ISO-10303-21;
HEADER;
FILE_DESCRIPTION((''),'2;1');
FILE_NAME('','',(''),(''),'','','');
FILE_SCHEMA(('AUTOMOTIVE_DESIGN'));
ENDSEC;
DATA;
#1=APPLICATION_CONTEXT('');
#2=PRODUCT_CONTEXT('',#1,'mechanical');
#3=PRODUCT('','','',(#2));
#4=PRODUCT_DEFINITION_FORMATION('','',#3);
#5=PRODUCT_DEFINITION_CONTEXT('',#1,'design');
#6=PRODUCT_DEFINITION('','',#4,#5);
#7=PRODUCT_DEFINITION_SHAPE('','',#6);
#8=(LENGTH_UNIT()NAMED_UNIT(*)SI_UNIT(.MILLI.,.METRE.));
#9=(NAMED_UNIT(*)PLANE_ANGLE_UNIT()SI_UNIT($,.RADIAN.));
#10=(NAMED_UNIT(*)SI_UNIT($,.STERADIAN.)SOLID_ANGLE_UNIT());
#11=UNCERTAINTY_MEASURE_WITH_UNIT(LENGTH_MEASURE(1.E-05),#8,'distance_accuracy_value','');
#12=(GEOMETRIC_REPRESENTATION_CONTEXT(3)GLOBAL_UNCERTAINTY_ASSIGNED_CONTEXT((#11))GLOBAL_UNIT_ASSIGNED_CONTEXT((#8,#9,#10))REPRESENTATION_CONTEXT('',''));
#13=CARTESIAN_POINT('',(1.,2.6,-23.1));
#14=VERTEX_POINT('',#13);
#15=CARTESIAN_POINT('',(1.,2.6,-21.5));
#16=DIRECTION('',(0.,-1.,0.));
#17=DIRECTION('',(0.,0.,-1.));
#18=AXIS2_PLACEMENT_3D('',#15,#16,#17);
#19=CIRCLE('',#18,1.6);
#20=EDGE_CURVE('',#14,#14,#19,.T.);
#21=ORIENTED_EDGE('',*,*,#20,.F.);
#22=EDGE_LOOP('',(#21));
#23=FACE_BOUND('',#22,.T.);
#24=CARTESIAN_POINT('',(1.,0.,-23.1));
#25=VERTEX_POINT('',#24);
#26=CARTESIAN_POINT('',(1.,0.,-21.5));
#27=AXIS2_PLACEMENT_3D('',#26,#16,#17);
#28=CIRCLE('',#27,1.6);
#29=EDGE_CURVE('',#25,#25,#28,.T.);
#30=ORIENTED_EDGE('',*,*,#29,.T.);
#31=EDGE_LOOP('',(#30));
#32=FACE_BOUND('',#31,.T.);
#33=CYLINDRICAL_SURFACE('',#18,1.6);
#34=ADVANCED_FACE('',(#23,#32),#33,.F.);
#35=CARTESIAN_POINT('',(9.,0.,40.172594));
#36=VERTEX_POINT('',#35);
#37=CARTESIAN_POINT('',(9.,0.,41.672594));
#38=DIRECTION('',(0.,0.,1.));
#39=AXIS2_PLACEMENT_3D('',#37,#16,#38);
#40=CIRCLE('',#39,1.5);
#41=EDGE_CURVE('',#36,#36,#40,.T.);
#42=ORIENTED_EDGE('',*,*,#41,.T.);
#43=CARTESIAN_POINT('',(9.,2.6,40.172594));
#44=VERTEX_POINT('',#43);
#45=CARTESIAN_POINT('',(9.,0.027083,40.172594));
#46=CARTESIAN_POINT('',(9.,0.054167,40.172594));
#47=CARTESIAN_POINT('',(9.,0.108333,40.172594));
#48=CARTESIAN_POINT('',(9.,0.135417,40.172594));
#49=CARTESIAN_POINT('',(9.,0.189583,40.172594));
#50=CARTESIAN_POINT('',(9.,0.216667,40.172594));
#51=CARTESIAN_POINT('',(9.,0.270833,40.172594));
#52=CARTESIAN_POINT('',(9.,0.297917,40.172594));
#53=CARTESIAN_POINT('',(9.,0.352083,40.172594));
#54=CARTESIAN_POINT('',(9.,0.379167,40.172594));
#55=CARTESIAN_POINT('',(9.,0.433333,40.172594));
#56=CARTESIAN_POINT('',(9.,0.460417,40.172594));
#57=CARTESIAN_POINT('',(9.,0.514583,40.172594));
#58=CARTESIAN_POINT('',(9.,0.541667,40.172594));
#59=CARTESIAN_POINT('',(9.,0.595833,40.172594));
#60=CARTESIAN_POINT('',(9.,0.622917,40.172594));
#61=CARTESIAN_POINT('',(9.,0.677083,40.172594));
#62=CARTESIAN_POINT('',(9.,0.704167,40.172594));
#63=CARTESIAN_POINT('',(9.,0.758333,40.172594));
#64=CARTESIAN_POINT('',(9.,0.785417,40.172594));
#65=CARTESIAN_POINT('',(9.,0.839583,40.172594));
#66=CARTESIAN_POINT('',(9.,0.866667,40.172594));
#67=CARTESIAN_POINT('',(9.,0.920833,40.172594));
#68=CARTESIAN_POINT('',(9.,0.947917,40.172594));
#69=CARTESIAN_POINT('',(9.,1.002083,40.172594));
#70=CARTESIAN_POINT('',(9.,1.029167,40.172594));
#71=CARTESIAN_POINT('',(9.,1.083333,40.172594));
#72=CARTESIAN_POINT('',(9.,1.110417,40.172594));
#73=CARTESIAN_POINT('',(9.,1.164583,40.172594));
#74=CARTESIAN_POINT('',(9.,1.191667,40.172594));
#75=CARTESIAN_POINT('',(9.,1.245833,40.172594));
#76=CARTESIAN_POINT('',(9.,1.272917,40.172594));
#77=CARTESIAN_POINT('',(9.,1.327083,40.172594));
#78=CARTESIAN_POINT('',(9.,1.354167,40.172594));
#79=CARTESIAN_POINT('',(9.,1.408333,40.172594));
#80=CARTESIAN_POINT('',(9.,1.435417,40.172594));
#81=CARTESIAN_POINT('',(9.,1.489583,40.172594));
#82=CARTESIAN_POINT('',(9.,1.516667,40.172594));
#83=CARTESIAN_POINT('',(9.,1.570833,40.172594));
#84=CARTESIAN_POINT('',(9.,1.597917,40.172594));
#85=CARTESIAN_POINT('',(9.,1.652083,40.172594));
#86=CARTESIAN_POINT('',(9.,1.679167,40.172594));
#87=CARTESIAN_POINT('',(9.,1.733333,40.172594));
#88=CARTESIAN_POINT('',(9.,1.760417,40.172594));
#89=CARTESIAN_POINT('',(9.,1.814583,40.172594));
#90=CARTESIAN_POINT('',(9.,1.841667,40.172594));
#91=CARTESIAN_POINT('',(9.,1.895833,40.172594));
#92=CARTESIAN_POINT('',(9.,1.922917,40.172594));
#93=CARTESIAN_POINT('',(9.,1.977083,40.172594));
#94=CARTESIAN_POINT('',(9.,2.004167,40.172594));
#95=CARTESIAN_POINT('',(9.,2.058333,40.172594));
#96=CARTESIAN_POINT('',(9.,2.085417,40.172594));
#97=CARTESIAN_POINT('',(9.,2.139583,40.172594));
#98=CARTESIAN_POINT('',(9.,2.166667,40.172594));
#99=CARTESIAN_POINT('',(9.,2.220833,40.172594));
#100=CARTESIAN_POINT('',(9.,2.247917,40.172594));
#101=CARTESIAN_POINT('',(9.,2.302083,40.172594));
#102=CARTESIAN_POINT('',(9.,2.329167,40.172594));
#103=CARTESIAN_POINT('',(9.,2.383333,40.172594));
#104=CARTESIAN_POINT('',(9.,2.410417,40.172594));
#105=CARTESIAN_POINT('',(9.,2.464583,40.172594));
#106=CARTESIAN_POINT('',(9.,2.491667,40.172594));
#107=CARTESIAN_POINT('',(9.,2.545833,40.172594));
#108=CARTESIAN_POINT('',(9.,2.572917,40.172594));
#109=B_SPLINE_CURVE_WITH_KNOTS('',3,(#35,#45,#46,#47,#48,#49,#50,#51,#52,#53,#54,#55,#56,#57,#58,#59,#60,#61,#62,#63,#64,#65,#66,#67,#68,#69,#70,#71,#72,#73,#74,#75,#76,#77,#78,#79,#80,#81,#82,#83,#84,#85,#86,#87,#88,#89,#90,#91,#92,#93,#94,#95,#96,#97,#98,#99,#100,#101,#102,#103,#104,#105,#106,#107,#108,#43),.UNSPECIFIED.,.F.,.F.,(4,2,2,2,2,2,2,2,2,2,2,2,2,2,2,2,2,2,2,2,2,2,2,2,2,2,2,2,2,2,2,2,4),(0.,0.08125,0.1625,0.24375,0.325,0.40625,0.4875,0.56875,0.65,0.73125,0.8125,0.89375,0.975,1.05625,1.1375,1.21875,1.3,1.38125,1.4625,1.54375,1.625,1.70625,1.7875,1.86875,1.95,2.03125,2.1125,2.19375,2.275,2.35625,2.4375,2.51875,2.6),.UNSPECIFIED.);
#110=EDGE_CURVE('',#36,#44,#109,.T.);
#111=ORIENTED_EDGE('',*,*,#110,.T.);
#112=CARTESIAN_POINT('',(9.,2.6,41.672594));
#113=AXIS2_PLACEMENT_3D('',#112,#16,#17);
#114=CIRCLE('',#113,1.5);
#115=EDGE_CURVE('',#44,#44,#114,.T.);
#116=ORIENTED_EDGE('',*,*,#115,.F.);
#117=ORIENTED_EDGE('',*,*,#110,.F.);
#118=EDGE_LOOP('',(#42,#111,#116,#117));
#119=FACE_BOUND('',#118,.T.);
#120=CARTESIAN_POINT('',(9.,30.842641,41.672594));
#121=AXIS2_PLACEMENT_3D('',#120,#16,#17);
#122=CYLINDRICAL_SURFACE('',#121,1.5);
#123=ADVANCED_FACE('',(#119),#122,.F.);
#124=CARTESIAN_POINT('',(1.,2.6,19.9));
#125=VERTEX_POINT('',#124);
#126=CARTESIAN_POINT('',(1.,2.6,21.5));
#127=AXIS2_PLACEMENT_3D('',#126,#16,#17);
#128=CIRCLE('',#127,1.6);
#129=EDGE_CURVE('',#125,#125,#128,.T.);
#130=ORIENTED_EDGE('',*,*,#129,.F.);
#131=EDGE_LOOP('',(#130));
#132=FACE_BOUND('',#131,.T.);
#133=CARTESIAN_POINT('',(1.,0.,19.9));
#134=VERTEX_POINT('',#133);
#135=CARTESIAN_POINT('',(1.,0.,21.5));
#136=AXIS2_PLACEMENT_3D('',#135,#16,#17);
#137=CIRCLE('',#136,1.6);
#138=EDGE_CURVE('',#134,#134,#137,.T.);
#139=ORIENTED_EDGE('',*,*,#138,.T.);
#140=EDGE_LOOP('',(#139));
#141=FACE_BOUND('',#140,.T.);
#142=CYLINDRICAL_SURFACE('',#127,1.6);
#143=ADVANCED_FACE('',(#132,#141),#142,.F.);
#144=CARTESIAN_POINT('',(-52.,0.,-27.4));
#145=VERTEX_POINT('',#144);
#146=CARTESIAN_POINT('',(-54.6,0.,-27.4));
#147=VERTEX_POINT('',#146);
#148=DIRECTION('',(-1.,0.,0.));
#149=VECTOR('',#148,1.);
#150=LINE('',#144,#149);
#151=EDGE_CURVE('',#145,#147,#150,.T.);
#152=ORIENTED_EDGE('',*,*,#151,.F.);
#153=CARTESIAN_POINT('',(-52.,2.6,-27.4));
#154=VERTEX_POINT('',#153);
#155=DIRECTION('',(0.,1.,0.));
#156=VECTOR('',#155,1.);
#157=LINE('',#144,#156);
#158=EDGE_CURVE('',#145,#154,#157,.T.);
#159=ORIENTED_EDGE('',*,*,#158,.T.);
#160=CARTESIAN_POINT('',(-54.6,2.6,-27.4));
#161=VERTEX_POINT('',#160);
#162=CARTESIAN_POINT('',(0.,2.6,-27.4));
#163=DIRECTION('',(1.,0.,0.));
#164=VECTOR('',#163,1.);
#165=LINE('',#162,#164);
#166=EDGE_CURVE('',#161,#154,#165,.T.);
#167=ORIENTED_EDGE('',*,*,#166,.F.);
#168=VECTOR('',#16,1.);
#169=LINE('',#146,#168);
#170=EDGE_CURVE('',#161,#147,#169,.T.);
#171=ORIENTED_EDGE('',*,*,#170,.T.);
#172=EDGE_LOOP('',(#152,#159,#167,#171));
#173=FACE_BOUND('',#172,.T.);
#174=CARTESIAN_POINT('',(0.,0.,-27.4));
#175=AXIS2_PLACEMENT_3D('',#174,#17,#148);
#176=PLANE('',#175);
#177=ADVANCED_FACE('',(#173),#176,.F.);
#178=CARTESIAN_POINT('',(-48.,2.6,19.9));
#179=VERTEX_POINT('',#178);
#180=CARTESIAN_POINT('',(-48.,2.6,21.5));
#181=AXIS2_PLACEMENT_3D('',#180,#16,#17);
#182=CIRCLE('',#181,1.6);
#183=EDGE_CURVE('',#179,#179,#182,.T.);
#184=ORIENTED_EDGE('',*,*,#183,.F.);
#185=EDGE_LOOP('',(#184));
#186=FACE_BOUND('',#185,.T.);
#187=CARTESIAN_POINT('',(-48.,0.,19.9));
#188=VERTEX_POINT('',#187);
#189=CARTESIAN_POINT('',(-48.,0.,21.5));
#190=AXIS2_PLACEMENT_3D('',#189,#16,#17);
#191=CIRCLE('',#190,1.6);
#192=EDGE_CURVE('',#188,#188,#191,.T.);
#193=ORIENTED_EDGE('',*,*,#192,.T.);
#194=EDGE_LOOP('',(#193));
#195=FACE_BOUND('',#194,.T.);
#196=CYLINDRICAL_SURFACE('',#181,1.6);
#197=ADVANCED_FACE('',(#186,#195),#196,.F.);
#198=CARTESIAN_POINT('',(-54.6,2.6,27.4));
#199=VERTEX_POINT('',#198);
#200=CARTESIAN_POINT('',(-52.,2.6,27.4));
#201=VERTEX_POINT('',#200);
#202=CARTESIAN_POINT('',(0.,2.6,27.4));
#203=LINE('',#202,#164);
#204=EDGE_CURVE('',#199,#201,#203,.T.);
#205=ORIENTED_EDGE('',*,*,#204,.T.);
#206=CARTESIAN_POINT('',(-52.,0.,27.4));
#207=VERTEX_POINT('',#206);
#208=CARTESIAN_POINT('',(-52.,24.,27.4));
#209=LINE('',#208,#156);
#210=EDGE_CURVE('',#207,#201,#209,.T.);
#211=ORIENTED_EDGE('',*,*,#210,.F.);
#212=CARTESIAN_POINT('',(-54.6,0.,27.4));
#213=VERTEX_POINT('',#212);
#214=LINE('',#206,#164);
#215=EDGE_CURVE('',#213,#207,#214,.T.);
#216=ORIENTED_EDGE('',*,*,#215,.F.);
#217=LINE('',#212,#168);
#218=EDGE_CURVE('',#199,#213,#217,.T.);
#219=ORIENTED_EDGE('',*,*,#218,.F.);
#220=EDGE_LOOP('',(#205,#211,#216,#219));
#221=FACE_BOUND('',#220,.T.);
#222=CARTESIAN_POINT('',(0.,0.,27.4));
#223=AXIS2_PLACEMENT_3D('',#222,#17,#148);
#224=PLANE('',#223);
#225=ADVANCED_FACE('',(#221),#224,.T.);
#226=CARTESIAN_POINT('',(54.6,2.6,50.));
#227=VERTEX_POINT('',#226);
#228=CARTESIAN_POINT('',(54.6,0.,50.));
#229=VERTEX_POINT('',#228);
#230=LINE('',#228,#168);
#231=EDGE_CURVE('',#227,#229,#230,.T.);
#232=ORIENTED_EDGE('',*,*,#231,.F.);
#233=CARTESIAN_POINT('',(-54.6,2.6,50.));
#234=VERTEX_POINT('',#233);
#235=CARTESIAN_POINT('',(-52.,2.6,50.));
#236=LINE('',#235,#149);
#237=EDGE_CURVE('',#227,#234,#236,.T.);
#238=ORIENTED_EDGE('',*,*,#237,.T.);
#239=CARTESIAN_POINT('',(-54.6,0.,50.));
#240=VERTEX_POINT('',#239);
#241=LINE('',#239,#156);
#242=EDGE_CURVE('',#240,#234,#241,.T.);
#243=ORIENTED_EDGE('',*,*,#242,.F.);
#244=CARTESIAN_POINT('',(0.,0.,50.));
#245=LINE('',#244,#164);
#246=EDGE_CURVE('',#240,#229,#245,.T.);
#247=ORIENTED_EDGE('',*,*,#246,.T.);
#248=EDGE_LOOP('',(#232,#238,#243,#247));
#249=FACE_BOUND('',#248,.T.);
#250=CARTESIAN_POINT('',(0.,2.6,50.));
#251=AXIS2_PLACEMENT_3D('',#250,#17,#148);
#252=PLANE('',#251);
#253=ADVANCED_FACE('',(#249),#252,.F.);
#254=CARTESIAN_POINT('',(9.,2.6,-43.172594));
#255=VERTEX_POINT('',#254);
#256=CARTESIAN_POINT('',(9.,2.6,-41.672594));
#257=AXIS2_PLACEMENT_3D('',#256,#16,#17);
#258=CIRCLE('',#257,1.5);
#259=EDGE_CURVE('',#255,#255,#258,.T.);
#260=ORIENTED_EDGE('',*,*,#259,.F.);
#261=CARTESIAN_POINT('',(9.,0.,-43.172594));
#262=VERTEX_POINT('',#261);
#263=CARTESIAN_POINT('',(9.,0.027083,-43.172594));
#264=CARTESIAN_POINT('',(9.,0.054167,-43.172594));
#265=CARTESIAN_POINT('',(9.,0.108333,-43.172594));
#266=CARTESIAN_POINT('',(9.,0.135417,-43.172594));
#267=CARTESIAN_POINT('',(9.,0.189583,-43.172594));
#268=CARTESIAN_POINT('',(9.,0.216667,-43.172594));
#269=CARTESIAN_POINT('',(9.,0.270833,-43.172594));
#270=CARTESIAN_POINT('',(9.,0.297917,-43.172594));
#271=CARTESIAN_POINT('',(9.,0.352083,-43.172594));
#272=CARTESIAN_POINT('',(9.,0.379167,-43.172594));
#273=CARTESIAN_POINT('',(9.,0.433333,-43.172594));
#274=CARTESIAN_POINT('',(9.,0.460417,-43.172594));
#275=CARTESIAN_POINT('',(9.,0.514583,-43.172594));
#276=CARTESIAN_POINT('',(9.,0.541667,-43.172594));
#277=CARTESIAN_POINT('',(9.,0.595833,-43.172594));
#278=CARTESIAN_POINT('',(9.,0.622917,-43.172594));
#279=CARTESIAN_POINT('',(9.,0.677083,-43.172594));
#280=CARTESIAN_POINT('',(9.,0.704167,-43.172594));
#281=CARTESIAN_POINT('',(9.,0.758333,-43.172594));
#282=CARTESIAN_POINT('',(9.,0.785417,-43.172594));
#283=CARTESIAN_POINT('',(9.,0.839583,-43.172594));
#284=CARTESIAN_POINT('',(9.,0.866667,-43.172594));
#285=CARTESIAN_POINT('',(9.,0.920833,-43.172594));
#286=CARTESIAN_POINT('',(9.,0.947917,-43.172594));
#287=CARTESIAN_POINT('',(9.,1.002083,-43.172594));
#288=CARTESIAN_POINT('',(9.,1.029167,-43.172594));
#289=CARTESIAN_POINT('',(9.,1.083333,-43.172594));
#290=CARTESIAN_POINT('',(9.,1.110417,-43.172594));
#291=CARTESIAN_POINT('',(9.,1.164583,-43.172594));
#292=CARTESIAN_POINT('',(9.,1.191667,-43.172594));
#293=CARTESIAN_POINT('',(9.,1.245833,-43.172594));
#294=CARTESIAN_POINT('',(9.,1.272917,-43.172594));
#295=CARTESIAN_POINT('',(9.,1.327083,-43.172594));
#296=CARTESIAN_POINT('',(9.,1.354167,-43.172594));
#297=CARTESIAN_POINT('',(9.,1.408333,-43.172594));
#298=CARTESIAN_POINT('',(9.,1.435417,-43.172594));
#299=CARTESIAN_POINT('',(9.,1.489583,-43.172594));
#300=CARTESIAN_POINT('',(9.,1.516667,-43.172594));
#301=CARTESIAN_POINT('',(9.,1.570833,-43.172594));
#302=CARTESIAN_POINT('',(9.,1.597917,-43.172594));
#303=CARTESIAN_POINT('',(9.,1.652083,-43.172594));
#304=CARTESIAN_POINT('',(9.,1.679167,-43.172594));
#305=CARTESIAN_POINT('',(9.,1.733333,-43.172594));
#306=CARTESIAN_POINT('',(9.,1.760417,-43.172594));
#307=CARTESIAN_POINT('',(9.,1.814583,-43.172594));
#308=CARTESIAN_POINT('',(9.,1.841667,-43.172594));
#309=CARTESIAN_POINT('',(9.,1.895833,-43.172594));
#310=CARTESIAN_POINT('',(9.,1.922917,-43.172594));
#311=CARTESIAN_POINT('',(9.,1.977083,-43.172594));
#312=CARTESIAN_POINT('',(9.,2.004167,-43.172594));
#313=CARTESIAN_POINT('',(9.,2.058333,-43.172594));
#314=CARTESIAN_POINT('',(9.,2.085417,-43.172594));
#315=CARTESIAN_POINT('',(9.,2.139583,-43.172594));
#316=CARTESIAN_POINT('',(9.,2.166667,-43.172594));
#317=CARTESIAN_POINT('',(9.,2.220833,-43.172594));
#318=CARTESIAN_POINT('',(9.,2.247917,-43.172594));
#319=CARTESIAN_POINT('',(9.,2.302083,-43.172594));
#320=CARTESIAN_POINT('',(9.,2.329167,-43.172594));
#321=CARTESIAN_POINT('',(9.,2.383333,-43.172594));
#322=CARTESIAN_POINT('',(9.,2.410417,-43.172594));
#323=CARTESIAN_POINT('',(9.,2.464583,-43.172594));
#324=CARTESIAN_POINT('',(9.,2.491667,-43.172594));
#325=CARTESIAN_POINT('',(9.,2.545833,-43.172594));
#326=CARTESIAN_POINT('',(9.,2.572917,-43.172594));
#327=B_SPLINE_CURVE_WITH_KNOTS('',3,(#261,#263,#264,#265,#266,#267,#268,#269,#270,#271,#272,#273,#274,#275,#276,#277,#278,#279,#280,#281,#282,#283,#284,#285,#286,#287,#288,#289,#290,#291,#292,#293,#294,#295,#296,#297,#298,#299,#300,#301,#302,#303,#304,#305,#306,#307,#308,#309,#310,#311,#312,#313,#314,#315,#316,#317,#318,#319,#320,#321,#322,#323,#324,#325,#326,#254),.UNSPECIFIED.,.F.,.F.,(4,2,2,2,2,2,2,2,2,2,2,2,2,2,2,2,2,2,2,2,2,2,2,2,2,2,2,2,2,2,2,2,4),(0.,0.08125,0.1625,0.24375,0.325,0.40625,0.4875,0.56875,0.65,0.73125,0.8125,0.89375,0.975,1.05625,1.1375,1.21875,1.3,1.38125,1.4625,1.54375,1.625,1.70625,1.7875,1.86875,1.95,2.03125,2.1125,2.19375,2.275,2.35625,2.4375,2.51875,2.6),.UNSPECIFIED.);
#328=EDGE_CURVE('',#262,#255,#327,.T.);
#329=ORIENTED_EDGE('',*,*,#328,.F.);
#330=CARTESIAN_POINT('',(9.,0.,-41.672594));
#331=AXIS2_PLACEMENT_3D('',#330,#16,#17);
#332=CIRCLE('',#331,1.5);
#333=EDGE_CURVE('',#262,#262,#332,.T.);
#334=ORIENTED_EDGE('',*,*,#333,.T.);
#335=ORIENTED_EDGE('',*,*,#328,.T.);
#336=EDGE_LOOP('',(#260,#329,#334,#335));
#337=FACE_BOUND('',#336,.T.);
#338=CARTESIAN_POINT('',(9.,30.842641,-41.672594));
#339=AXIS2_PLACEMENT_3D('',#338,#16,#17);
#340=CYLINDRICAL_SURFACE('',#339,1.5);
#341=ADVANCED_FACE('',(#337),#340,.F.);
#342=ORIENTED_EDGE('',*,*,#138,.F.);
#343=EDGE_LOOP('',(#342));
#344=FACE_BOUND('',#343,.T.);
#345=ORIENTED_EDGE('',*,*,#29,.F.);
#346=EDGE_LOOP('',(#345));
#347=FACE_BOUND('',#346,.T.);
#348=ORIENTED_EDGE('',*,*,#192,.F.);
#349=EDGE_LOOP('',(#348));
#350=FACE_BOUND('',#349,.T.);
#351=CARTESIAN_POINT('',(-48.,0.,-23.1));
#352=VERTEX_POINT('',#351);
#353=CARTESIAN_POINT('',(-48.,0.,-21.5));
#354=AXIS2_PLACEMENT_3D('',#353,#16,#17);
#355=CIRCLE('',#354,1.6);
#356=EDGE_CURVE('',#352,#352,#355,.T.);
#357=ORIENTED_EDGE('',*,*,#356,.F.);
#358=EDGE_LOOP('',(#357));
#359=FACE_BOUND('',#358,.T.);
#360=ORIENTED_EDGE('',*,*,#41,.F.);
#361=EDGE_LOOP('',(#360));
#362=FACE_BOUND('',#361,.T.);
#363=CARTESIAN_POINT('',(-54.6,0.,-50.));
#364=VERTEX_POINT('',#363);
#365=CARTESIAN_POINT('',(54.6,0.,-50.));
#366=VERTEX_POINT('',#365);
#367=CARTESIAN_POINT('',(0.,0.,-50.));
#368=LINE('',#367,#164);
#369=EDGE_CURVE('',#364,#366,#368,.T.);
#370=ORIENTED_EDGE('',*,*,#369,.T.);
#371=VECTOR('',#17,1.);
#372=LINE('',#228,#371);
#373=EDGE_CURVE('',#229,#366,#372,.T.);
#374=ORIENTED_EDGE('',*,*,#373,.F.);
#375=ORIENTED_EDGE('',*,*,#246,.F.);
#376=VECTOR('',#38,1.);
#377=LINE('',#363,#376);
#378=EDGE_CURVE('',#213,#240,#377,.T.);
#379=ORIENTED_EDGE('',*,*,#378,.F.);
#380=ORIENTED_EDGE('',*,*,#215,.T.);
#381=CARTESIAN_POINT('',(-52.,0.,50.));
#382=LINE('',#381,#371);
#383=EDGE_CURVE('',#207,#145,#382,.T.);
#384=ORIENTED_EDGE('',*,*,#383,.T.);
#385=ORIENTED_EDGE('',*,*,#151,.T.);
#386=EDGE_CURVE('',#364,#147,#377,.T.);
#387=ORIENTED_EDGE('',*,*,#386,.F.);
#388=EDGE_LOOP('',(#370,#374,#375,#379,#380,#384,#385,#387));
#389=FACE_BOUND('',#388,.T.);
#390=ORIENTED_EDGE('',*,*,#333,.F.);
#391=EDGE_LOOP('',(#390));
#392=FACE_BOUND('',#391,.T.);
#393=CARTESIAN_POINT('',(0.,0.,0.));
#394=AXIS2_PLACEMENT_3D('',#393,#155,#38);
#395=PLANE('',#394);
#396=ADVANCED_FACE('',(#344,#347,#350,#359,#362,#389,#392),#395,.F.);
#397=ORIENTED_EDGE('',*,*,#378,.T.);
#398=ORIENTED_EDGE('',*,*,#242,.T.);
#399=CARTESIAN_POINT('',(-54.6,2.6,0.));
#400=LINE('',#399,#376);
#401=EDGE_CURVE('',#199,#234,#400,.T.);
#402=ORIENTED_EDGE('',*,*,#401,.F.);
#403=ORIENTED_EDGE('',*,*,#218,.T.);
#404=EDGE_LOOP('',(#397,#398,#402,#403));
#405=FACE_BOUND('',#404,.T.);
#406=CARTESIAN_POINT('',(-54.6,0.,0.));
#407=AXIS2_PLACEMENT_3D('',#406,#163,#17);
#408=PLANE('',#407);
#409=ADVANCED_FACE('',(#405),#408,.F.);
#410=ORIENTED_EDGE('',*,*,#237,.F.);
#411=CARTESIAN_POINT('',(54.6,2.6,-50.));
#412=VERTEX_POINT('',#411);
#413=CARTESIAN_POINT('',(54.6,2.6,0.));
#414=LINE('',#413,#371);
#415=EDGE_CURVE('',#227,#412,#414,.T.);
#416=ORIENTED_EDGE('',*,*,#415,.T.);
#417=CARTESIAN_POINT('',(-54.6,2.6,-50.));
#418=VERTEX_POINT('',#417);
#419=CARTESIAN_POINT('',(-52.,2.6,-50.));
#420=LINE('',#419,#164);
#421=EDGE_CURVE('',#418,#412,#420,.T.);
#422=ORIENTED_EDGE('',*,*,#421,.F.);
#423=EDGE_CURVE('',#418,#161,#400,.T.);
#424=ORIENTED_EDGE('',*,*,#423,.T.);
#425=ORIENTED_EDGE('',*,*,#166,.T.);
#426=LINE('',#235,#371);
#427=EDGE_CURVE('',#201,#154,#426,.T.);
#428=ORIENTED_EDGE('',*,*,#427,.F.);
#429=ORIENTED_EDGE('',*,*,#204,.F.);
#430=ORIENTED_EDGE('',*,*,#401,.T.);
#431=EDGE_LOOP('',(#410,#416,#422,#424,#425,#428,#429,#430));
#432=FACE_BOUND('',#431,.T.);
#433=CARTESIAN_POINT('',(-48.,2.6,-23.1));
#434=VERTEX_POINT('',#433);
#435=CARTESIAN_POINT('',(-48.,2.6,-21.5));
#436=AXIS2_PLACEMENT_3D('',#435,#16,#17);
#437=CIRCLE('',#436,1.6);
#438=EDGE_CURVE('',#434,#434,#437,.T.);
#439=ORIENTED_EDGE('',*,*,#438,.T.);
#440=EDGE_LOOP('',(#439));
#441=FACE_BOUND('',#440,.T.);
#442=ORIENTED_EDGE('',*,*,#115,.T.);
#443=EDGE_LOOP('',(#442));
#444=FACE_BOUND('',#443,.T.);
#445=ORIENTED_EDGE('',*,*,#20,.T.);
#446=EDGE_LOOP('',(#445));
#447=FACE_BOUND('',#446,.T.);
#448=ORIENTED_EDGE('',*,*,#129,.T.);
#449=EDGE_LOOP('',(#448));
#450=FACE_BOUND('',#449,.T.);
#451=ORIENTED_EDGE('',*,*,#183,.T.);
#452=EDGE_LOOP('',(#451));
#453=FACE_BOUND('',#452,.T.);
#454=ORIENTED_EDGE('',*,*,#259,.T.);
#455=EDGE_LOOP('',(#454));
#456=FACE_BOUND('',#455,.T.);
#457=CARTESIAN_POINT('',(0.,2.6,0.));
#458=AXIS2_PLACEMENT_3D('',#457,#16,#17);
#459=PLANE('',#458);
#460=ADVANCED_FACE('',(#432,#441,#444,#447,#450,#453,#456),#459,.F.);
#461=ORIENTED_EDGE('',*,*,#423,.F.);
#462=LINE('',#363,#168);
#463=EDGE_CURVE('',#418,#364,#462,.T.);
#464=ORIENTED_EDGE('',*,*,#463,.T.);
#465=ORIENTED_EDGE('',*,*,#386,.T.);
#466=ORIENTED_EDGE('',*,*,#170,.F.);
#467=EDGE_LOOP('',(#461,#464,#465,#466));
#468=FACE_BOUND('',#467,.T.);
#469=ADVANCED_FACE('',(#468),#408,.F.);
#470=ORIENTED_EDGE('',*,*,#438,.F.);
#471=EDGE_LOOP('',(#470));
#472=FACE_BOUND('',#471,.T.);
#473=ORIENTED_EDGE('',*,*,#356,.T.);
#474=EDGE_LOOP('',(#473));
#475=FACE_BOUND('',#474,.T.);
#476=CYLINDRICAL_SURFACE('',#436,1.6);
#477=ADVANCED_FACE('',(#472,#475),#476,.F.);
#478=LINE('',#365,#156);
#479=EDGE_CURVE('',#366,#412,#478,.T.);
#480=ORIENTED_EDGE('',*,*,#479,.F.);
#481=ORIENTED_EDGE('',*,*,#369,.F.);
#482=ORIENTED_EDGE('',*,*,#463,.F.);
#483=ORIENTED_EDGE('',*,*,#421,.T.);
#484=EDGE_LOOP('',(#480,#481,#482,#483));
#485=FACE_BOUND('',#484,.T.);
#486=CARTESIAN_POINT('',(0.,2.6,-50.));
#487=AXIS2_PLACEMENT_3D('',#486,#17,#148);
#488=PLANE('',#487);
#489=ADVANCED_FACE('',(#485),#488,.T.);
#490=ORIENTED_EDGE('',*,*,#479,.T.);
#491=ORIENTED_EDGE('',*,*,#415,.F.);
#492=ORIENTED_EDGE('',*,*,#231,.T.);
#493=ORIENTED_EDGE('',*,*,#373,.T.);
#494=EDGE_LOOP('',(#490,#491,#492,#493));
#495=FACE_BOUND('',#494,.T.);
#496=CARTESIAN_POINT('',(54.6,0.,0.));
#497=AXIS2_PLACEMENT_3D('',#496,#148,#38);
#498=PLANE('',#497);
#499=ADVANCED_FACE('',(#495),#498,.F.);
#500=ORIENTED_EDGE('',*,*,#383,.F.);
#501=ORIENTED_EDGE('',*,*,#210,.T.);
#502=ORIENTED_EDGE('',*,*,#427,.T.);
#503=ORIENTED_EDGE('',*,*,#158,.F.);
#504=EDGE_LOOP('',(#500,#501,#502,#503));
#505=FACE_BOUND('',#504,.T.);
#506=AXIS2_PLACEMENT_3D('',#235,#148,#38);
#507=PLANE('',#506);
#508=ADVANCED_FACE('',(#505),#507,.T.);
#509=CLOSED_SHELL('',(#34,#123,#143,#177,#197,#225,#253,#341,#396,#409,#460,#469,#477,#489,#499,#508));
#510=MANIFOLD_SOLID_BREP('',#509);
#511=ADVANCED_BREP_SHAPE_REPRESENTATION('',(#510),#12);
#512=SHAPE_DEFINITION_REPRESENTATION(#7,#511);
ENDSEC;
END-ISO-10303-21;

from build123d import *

# Parameters (mm, degrees)
EXTRUDE_1_DEPTH                  = 2.6
SKETCH_2_W                       = 100
SKETCH_2_H                       = 24
EXTRUDE_2_DEPTH                  = 2.6
SKETCH_4_W                       = 100
SKETCH_4_H                       = 24
EXTRUDE_3_DEPTH                  = 2.6
SKETCH_5_W                       = 62
SKETCH_5_H                       = 100
EXTRUDE_5_DEPTH                  = 2.6
SKETCH_7_W                       = 62
SKETCH_7_H                       = 100
EXTRUDE_6_DEPTH                  = 2.6
SKETCH_8_W                       = 59.4
SKETCH_8_H                       = 60
CUT_EXTRUDE_1_DEPTH              = 2.6
SKETCH_9_W                       = 59.4
SKETCH_9_H                       = 60
CUT_EXTRUDE_2_DEPTH              = 2.6
SKETCH_11_W                      = 59.4
SKETCH_11_H                      = 26.6
EXTRUDE_7_DEPTH                  = 2.6
SKETCH_12_W                      = 59.4
SKETCH_12_H                      = 26.6
EXTRUDE_8_DEPTH                  = 2.6
SKETCH_14_W                      = 59.4
SKETCH_14_H                      = 26.6
EXTRUDE_9_DEPTH                  = 2.6
SKETCH_15_W                      = 59.4
SKETCH_15_H                      = 26.6
EXTRUDE_10_DEPTH                 = 2.6
SKETCH_16_R                      = 1.6
CUT_EXTRUDE_3_DEPTH              = 127.775391934
SKETCH_17_W                      = 80
SKETCH_17_H                      = 64
CUT_EXTRUDE_4_DEPTH              = 127.775391934
SKETCH_21_W                      = 59.4
SKETCH_21_H                      = 54.8
EXTRUDE_11_DEPTH                 = 2.6
SKETCH_22_R                      = 1.6
CUT_EXTRUDE_5_DEPTH              = 2.6
SKETCH_23_W                      = 59.4
SKETCH_23_H                      = 54.8
EXTRUDE_13_DEPTH                 = 2.6
CUT_EXTRUDE_8_DEPTH              = 2.6
SKETCH_25_W                      = 54.8
SKETCH_25_H                      = 21.4
CUT_EXTRUDE_9_DEPTH              = 2.6
CUT_EXTRUDE_11_REACH             = 143.787
SKETCH_28_R                      = 1.5
CUT_EXTRUDE_11_DIRECTION_2_DEPTH = 142.787023384
SKETCH_31_W                      = 41.995824489
SKETCH_31_H                      = 54.8
CUT_EXTRUDE_14_DEPTH             = 2.6
SKETCH_32_W                      = 59.4
SKETCH_32_H                      = 24
CUT_EXTRUDE_15_DEPTH             = 70.6
SKETCH_33_W                      = 104
SKETCH_33_H                      = 100
CUT_EXTRUDE_16_DEPTH             = 2.6
SKETCH_34_W                      = 104
SKETCH_34_H                      = 99.672593916
EXTRUDE_14_DEPTH                 = 2.6
SKETCH_35_R                      = 1.6
CUT_EXTRUDE_24_DEPTH             = 2.6
SKETCH_36_W                      = 59.4
SKETCH_36_H                      = 100
CUT_EXTRUDE_25_DEPTH             = 2.6
SKETCH_37_W                      = 36
SKETCH_37_H                      = 2.6
EXTRUDE_17_DEPTH                 = 36
SKETCH_41_W                      = 36
SKETCH_41_H                      = 12
CUT_EXTRUDE_27_DEPTH             = 2.6
SKETCH_42_R                      = 1.6
CUT_EXTRUDE_28_DEPTH             = 2.6
SKETCH_43_R                      = 2
CUT_EXTRUDE_29_DEPTH             = 2.6
SKETCH_44_W                      = 104
SKETCH_44_H                      = 99.672593916
EXTRUDE_18_DEPTH                 = 2.6
SKETCH_45_R                      = 1.6
CUT_EXTRUDE_30_DEPTH             = 2.6
SKETCH_46_W                      = 80
SKETCH_46_H                      = 64
CUT_EXTRUDE_31_DEPTH             = 2.6
SKETCH_47_W                      = 40
SKETCH_47_H                      = 30
CUT_EXTRUDE_32_DEPTH             = 2.6
SKETCH_48_W                      = 12
SKETCH_48_H                      = 64
CUT_EXTRUDE_33_DEPTH             = 2.6
SKETCH_49_W                      = 40
SKETCH_49_H                      = 20
CUT_EXTRUDE_34_DEPTH             = 2.6
SKETCH_50_W                      = 39.937786469
SKETCH_50_H                      = 20
CUT_EXTRUDE_35_DEPTH             = 2.6
SKETCH_51_R                      = 9
CUT_EXTRUDE_36_DEPTH             = 2.6
CUT_EXTRUDE_38_REACH             = 143.787
SKETCH_52_W                      = 15
SKETCH_52_H                      = 15
SKETCH_55_W                      = 36
SKETCH_55_H                      = 2.6
CUT_EXTRUDE_39_DEPTH             = 12
CUT_EXTRUDE_START                = -109.2
SKETCH_56_W                      = 10
SKETCH_56_H                      = 10
CUT_EXTRUDE_40_DEPTH             = 109.2
CUT_EXTRUDE_41_REACH             = 129.293
SKETCH_57_R                      = 1.5
SKETCH_58_W                      = 104
SKETCH_58_H                      = 2.6
EXTRUDE_19_DEPTH                 = 0.327406084
SKETCH_59_W                      = 59.4
SKETCH_59_H                      = 24
CUT_EXTRUDE_42_DEPTH             = 60
SKETCH_60_W                      = 168.6
SKETCH_60_H                      = 100
CUT_EXTRUDE_43_DEPTH             = 2.6
CUT_EXTRUDE_44_DEPTH             = 200
CUT_EXTRUDE_44_DEPTH_BACK        = 200
SKETCH_61_W                      = 100
SKETCH_61_H                      = 21.4
SKETCH_62_W                      = 20
SKETCH_62_H                      = 2.6
EXTRUDE_20_DEPTH                 = 39.937786469
SKETCH_63_W                      = 40
SKETCH_63_H                      = 2.6
EXTRUDE_21_DEPTH                 = 50
SKETCH_64_R                      = 1.6
CUT_EXTRUDE_45_DEPTH             = 2.6
SKETCH_65_R                      = 1.6
EXTRUDE_23_DEPTH                 = 2.6


with BuildPart() as part:
    # 草图1 → 凸台-拉伸1 (new body)
    with BuildSketch(Plane(origin=(0, 0, 0), x_dir=(1, 0, 0), z_dir=(0, 1, 0))):
        Polygon((52, 50), (0, 50), (-52, 50), (-52, -50), (52, -50), align=None)
    extrude(amount=EXTRUDE_1_DEPTH)

    # 草图2 → 凸台-拉伸2 (add)
    with BuildSketch(Plane.ZY.offset(52)):
        with Locations((0, 12)):
            Rectangle(SKETCH_2_W, SKETCH_2_H)
    extrude(amount=EXTRUDE_2_DEPTH)

    # 草图4 → 凸台-拉伸3 (add)
    with BuildSketch(Plane(origin=(52, 0, 0), x_dir=(0, 0, -1), z_dir=(1, 0, 0))):
        with Locations((0, 12)):
            Rectangle(SKETCH_4_W, SKETCH_4_H)
    extrude(amount=EXTRUDE_3_DEPTH)

    # 草图5 → 凸台-拉伸5 (add)
    with BuildSketch(Plane(origin=(0, 24, 0), x_dir=(1, 0, 0), z_dir=(0, 1, 0))):
        with Locations((-83, 0)):
            Rectangle(SKETCH_5_W, SKETCH_5_H)
    extrude(amount=EXTRUDE_5_DEPTH)

    # 草图7 → 凸台-拉伸6 (add)
    with BuildSketch(Plane(origin=(0, 24, 0), x_dir=(1, 0, 0), z_dir=(0, 1, 0))):
        with Locations((83, 0)):
            Rectangle(SKETCH_7_W, SKETCH_7_H)
    extrude(amount=EXTRUDE_6_DEPTH)

    # 草图8 → 切除-拉伸1 (cut)
    with BuildSketch(Plane(origin=(0, 24, 0), x_dir=(1, 0, 0), z_dir=(0, 1, 0))):
        with Locations((-84.3, 0)):
            Rectangle(SKETCH_8_W, SKETCH_8_H)
    extrude(amount=CUT_EXTRUDE_1_DEPTH, mode=Mode.SUBTRACT)

    # 草图9 → 切除-拉伸2 (cut)
    with BuildSketch(Plane.XZ.offset(-24)):
        with Locations((84.3, 0)):
            Rectangle(SKETCH_9_W, SKETCH_9_H)
    extrude(amount=-CUT_EXTRUDE_2_DEPTH, mode=Mode.SUBTRACT)

    # 草图11 → 凸台-拉伸7 (add)
    with BuildSketch(Plane(origin=(0, 0, 30), x_dir=(-1, 0, 0), z_dir=(0, 0, -1))):
        with Locations((-84.3, 13.3)):
            Rectangle(SKETCH_11_W, SKETCH_11_H)
    extrude(amount=EXTRUDE_7_DEPTH)

    # 草图12 → 凸台-拉伸8 (add)
    with BuildSketch(Plane.XY.offset(-30)):
        with Locations((84.3, 13.3)):
            Rectangle(SKETCH_12_W, SKETCH_12_H)
    extrude(amount=EXTRUDE_8_DEPTH)

    # 草图14 → 凸台-拉伸9 (add)
    with BuildSketch(Plane.XY.offset(-30)):
        with Locations((-84.3, 13.3)):
            Rectangle(SKETCH_14_W, SKETCH_14_H)
    extrude(amount=EXTRUDE_9_DEPTH)

    # 草图15 → 凸台-拉伸10 (add)
    with BuildSketch(Plane(origin=(0, 0, 30), x_dir=(-1, 0, 0), z_dir=(0, 0, -1))):
        with Locations((84.3, 13.3)):
            Rectangle(SKETCH_15_W, SKETCH_15_H)
    extrude(amount=EXTRUDE_10_DEPTH)

    # 草图16 → 切除-拉伸3 (cut, through all)
    with BuildSketch(Plane(origin=(0, 2.6, 0), x_dir=(1, 0, 0), z_dir=(0, 1, 0))):
        with Locations(Location((-47.5, 37.465, 0), (0, 0, 270))):
            Circle(SKETCH_16_R)
        with Locations(Location((47.5, 37.465, 0), (0, 0, 90))):
            Circle(SKETCH_16_R)
        with Locations(Location((-47.5, -37.465, 0), (0, 0, 90))):
            Circle(SKETCH_16_R)
        with Locations(Location((47.5, -37.465, 0), (0, 0, 270))):
            Circle(SKETCH_16_R)
    extrude(amount=-CUT_EXTRUDE_3_DEPTH, mode=Mode.SUBTRACT)

    # 草图17 → 切除-拉伸4 (cut, through all)
    with BuildSketch(Plane(origin=(0, 2.6, 0), x_dir=(1, 0, 0), z_dir=(0, 1, 0))):
        Rectangle(SKETCH_17_W, SKETCH_17_H)
    extrude(amount=-CUT_EXTRUDE_4_DEPTH, mode=Mode.SUBTRACT)

    # 草图21 → 凸台-拉伸11 (add)
    with BuildSketch(Plane.XZ):
        with Locations((-84.3, 0)):
            Rectangle(SKETCH_21_W, SKETCH_21_H)
    extrude(amount=-EXTRUDE_11_DEPTH)

    # 草图22 → 切除-拉伸5 (cut)
    with BuildSketch(Plane(origin=(0, 2.6, 0), x_dir=(1, 0, 0), z_dir=(0, 1, 0))):
        with Locations(Location((-109, 18, 0), (0, 0, 270))):
            Circle(SKETCH_22_R)
        with Locations(Location((-109, 0, 0), (0, 0, 270))):
            Circle(SKETCH_22_R)
        with Locations(Location((-109, -18, 0), (0, 0, 90))):
            Circle(SKETCH_22_R)
    extrude(amount=-CUT_EXTRUDE_5_DEPTH, mode=Mode.SUBTRACT)

    # 草图23 → 凸台-拉伸13 (add)
    with BuildSketch(Plane(origin=(0, 26.6, 0), x_dir=(1, 0, 0), z_dir=(0, 1, 0))):
        with Locations((-84.3, 0)):
            Rectangle(SKETCH_23_W, SKETCH_23_H)
    extrude(amount=-EXTRUDE_13_DEPTH)

    # 草图24 → 切除-拉伸8 (cut)
    with BuildSketch(Plane(origin=(0, 26.6, 0), x_dir=(1, 0, 0), z_dir=(0, 1, 0))):
        Polygon((-114, 27.4), (-104, 27.4), (-104, 0.9702404), (-94.7, 0.9702404), (-94.7, 6.15), (-72, 6.15), (-72, 0.9702404), (-62.7, 0.9702404), (-62.7, -1.0297596), (-72, -1.0297596), (-72, -6.15), (-94.7, -6.15), (-94.7, -1.0297596), (-104, -1.0297596), (-104, -27.4), (-114, -27.4), align=None)
    extrude(amount=-CUT_EXTRUDE_8_DEPTH, mode=Mode.SUBTRACT)

    # 草图25 → 切除-拉伸9 (cut)
    with BuildSketch(Plane.ZY.offset(54.6)):
        with Locations((0, 13.3)):
            Rectangle(SKETCH_25_W, SKETCH_25_H)
    extrude(amount=-CUT_EXTRUDE_9_DEPTH, mode=Mode.SUBTRACT)

    # 切除-拉伸11: up to this face of the body (flat: up to its plane)
    cut_extrude_11_end = Plane(part.part.faces().sort_by_distance((-84.3, 12, -30))[0])
    # 草图28 → 切除-拉伸11 (cut, up to the picked face)
    with BuildSketch(Plane.XY.offset(30), mode=Mode.PRIVATE) as cut_extrude_11_sk1:
        with Locations(Location((-87.2, 20.75, 0), (0, 0, 180))):
            Circle(SKETCH_28_R)
    cut_extrude_11_tool1 = split(extrude(cut_extrude_11_sk1.sketch, amount=-CUT_EXTRUDE_11_REACH, mode=Mode.PRIVATE), bisect_by=cut_extrude_11_end, keep=Keep.BOTH, mode=Mode.PRIVATE)
    # 草图28 → 切除-拉伸11 (cut, up to the picked face)
    with BuildSketch(Plane.XY.offset(30), mode=Mode.PRIVATE) as cut_extrude_11_sk2:
        with Locations(Location((-87.2, 3.25, 0), (0, 0, 180))):
            Circle(SKETCH_28_R)
    cut_extrude_11_tool2 = split(extrude(cut_extrude_11_sk2.sketch, amount=-CUT_EXTRUDE_11_REACH, mode=Mode.PRIVATE), bisect_by=cut_extrude_11_end, keep=Keep.BOTH, mode=Mode.PRIVATE)
    add(cut_extrude_11_tool1.solids().sort_by(Axis((-87.2, 20.75, 30), (0, 0, -1)))[0], mode=Mode.SUBTRACT)
    add(cut_extrude_11_tool2.solids().sort_by(Axis((-87.2, 3.25, 30), (0, 0, -1)))[0], mode=Mode.SUBTRACT)

    # 草图28 → 切除-拉伸11 direction 2 (cut)
    with BuildSketch(Plane.XY.offset(30)):
        with Locations(Location((-87.2, 20.75, 0), (0, 0, 180))):
            Circle(SKETCH_28_R)
        with Locations(Location((-87.2, 3.25, 0), (0, 0, 180))):
            Circle(SKETCH_28_R)
    extrude(amount=CUT_EXTRUDE_11_DIRECTION_2_DEPTH, mode=Mode.SUBTRACT)

    # 草图31 → 切除-拉伸14 (cut)
    with BuildSketch(Plane(origin=(0, 2.6, 0), x_dir=(1, 0, 0), z_dir=(0, 1, 0))):
        with Locations((-72.997912245, 0)):
            Rectangle(SKETCH_31_W, SKETCH_31_H)
    extrude(amount=-CUT_EXTRUDE_14_DEPTH, mode=Mode.SUBTRACT)

    # 草图32 → 切除-拉伸15 (cut)
    with BuildSketch(Plane.XY.offset(30)):
        with Locations((84.3, 12)):
            Rectangle(SKETCH_32_W, SKETCH_32_H)
    extrude(amount=-CUT_EXTRUDE_15_DEPTH, mode=Mode.SUBTRACT)

    # 草图33 → 切除-拉伸16 (cut)
    with BuildSketch(Plane(origin=(0, 2.6, 0), x_dir=(1, 0, 0), z_dir=(0, 1, 0))):
        Rectangle(SKETCH_33_W, SKETCH_33_H)
    extrude(amount=-CUT_EXTRUDE_16_DEPTH, mode=Mode.SUBTRACT)


with BuildPart() as cut_extrude_16_piece_1:
    # of the separate pieces the step leaves, piece 1, a body of its own (cut_extrude_16_pieces)
    add(part.part.solids().sort_by_distance((-52, 0, -50))[0])



with BuildPart() as cut_extrude_16_piece_2:
    # of the separate pieces the step leaves, piece 2, a body of its own (cut_extrude_16_pieces)
    add(part.part.solids().sort_by_distance((114, 26.6, -50))[0])


with BuildPart() as cut_extrude_16_piece_1_1:
    add(cut_extrude_16_piece_1.part)

    add(cut_extrude_16_piece_2.part)  # 凸台-拉伸14 merges 切除-拉伸16 piece 2
    # 草图34 → 凸台-拉伸14 (add)
    with BuildSketch(Plane.XZ):
        with Locations((0, 0.163703042)):
            Rectangle(SKETCH_34_W, SKETCH_34_H)
    extrude(amount=-EXTRUDE_14_DEPTH)

    # 草图35 → 切除-拉伸24 (cut)
    with BuildSketch(Plane(origin=(0, 2.6, 0), x_dir=(1, 0, 0), z_dir=(0, 1, 0))):
        with Locations(Location((-39.5, 21.5, 0), (0, 0, 270))):
            Circle(SKETCH_35_R)
        with Locations(Location((9.5, 21.5, 0), (0, 0, 270))):
            Circle(SKETCH_35_R)
        with Locations(Location((9.5, -21.5, 0), (0, 0, 90))):
            Circle(SKETCH_35_R)
        with Locations(Location((-39.5, -21.5, 0), (0, 0, 90))):
            Circle(SKETCH_35_R)
    extrude(amount=-CUT_EXTRUDE_24_DEPTH, mode=Mode.SUBTRACT)

    # 草图36 → 切除-拉伸25 (cut)
    with BuildSketch(Plane(origin=(0, 26.6, 0), x_dir=(1, 0, 0), z_dir=(0, 1, 0))):
        with Locations((84.3, 0)):
            Rectangle(SKETCH_36_W, SKETCH_36_H)
    extrude(amount=-CUT_EXTRUDE_25_DEPTH, mode=Mode.SUBTRACT)

    # 草图37 → 凸台-拉伸17 (add)
    with BuildSketch(Plane(origin=(54.6, 0, 0), x_dir=(0, 0, -1), z_dir=(1, 0, 0))):
        with Locations((0, 13.3)):
            Rectangle(SKETCH_37_W, SKETCH_37_H)
    extrude(amount=EXTRUDE_17_DEPTH)

    # 草图41 → 切除-拉伸27 (cut)
    with BuildSketch(Plane(origin=(54.6, 0, 0), x_dir=(0, 0, -1), z_dir=(1, 0, 0))):
        with Locations((0, 20.6)):
            Rectangle(SKETCH_41_W, SKETCH_41_H)
    extrude(amount=-CUT_EXTRUDE_27_DEPTH, mode=Mode.SUBTRACT)

    # 草图42 → 切除-拉伸28 (cut)
    with BuildSketch(Plane(origin=(0, 14.6, 0), x_dir=(1, 0, 0), z_dir=(0, 1, 0))):
        with Locations(Location((88.1, 15.5, 0), (0, 0, 270))):
            Circle(SKETCH_42_R)
        with Locations(Location((88.1, -15.5, 0), (0, 0, 90))):
            Circle(SKETCH_42_R)
        with Locations(Location((57.1, 15.5, 0), (0, 0, 270))):
            Circle(SKETCH_42_R)
        with Locations(Location((57.1, -15.5, 0), (0, 0, 90))):
            Circle(SKETCH_42_R)
    extrude(amount=-CUT_EXTRUDE_28_DEPTH, mode=Mode.SUBTRACT)

    # 草图43 → 切除-拉伸29 (cut)
    with BuildSketch(Plane(origin=(0, 14.6, 0), x_dir=(1, 0, 0), z_dir=(0, 1, 0))):
        with Locations(Location((61.1, 14.5, 0), (0, 0, 270))):
            Circle(SKETCH_43_R)
        with Locations(Location((84.1, 14.5, 0), (0, 0, 270))):
            Circle(SKETCH_43_R)
        with Locations(Location((84.1, -14.5, 0), (0, 0, 90))):
            Circle(SKETCH_43_R)
        with Locations(Location((61.1, -14.5, 0), (0, 0, 90))):
            Circle(SKETCH_43_R)
    extrude(amount=-CUT_EXTRUDE_29_DEPTH, mode=Mode.SUBTRACT)

    # 草图44 → 凸台-拉伸18 (add)
    with BuildSketch(Plane(origin=(0, 26.6, 0), x_dir=(1, 0, 0), z_dir=(0, 1, 0))):
        with Locations((0, -0.163703042)):
            Rectangle(SKETCH_44_W, SKETCH_44_H)
    extrude(amount=-EXTRUDE_18_DEPTH)

    # 草图45 → 切除-拉伸30 (cut)
    with BuildSketch(Plane(origin=(0, 26.6, 0), x_dir=(1, 0, 0), z_dir=(0, 1, 0))):
        with Locations(Location((-47.5, -37.465, 0), (0, 0, 270))):
            Circle(SKETCH_45_R)
        with Locations(Location((-47.5, 37.465, 0), (0, 0, 90))):
            Circle(SKETCH_45_R)
        with Locations(Location((47.5, -37.465, 0), (0, 0, 90))):
            Circle(SKETCH_45_R)
        with Locations(Location((47.5, 37.465, 0), (0, 0, 270))):
            Circle(SKETCH_45_R)
    extrude(amount=-CUT_EXTRUDE_30_DEPTH, mode=Mode.SUBTRACT)

    # 草图46 → 切除-拉伸31 (cut)
    with BuildSketch(Plane(origin=(0, 26.6, 0), x_dir=(1, 0, 0), z_dir=(0, 1, 0))):
        Rectangle(SKETCH_46_W, SKETCH_46_H)
    extrude(amount=-CUT_EXTRUDE_31_DEPTH, mode=Mode.SUBTRACT)

    # 草图47 → 切除-拉伸32 (cut)
    with BuildSketch(Plane(origin=(0, 2.6, 0), x_dir=(1, 0, 0), z_dir=(0, 1, 0))):
        with Locations((-15, 0)):
            Rectangle(SKETCH_47_W, SKETCH_47_H)
    extrude(amount=-CUT_EXTRUDE_32_DEPTH, mode=Mode.SUBTRACT)

    # 草图48 → 切除-拉伸33 (cut)
    with BuildSketch(Plane(origin=(0, 26.6, 0), x_dir=(1, 0, 0), z_dir=(0, 1, 0))):
        with Locations((-46, 0)):
            Rectangle(SKETCH_48_W, SKETCH_48_H)
    extrude(amount=-CUT_EXTRUDE_33_DEPTH, mode=Mode.SUBTRACT)

    # 草图49 → 切除-拉伸34 (cut)
    with BuildSketch(Plane(origin=(0, 2.6, 0), x_dir=(1, 0, 0), z_dir=(0, 1, 0))):
        with Locations((-15, -25)):
            Rectangle(SKETCH_49_W, SKETCH_49_H)
    extrude(amount=-CUT_EXTRUDE_34_DEPTH, mode=Mode.SUBTRACT)

    # 草图50 → 切除-拉伸35 (cut)
    with BuildSketch(Plane(origin=(0, 2.6, 0), x_dir=(1, 0, 0), z_dir=(0, 1, 0))):
        with Locations((-15.031106765, 25)):
            Rectangle(SKETCH_50_W, SKETCH_50_H)
    extrude(amount=-CUT_EXTRUDE_35_DEPTH, mode=Mode.SUBTRACT)

    # 草图51 → 切除-拉伸36 (cut)
    with BuildSketch(Plane(origin=(0, 14.6, 0), x_dir=(1, 0, 0), z_dir=(0, 1, 0))):
        with Locations(Location((71.3, 0, 0), (0, 0, 270))):
            Circle(SKETCH_51_R)
    extrude(amount=-CUT_EXTRUDE_36_DEPTH, mode=Mode.SUBTRACT)

    # 切除-拉伸38: up to this face of the body (flat: up to its plane)
    cut_extrude_38_end = Plane(cut_extrude_16_piece_1_1.part.faces().sort_by_distance((-84.270953692, 12, -30))[0])
    # 草图52 → 切除-拉伸38 (cut, up to the picked face)
    with BuildSketch(Plane.XY.offset(30), mode=Mode.PRIVATE) as cut_extrude_38_sk1:
        with Locations((-74.7, 12)):
            Rectangle(SKETCH_52_W, SKETCH_52_H)
    cut_extrude_38_tool1 = split(extrude(cut_extrude_38_sk1.sketch, amount=-CUT_EXTRUDE_38_REACH, mode=Mode.PRIVATE), bisect_by=cut_extrude_38_end, keep=Keep.BOTH, mode=Mode.PRIVATE)
    # 草图52 → 切除-拉伸38 (cut, up to the picked face)
    with BuildSketch(Plane.XY.offset(30), mode=Mode.PRIVATE) as cut_extrude_38_sk2:
        with Locations((-99.7, 12)):
            Rectangle(SKETCH_52_W, SKETCH_52_H)
    cut_extrude_38_tool2 = split(extrude(cut_extrude_38_sk2.sketch, amount=-CUT_EXTRUDE_38_REACH, mode=Mode.PRIVATE), bisect_by=cut_extrude_38_end, keep=Keep.BOTH, mode=Mode.PRIVATE)
    add(cut_extrude_38_tool1.solids().sort_by(Axis((-74.7, 12, 30), (0, 0, -1)))[0], mode=Mode.SUBTRACT)
    add(cut_extrude_38_tool2.solids().sort_by(Axis((-99.7, 12, 30), (0, 0, -1)))[0], mode=Mode.SUBTRACT)

    # 草图55 → 切除-拉伸39 (cut)
    with BuildSketch(Plane(origin=(52, 0, 0), x_dir=(0, 0, -1), z_dir=(1, 0, 0))):
        with Locations((0, 25.3)):
            Rectangle(SKETCH_55_W, SKETCH_55_H)
    extrude(amount=-CUT_EXTRUDE_39_DEPTH, mode=Mode.SUBTRACT)

    # 草图56 → 切除-拉伸40 (cut)
    with BuildSketch(Plane(origin=(54.6, 0, 0), x_dir=(0, 0, -1), z_dir=(1, 0, 0)).offset(CUT_EXTRUDE_START)):
        with Locations((-37, 13.3)):
            Rectangle(SKETCH_56_W, SKETCH_56_H)
        with Locations((37, 13.3)):
            Rectangle(SKETCH_56_W, SKETCH_56_H)
    extrude(amount=CUT_EXTRUDE_40_DEPTH, mode=Mode.SUBTRACT)

    # 切除-拉伸41: up to this face of the body (flat: up to its plane)
    cut_extrude_41_end = Plane(cut_extrude_16_piece_1_1.part.faces().sort_by_distance((52.639745935, 26.6, -34))[0])
    # 草图57 → 切除-拉伸41 (cut, up to the picked face)
    with BuildSketch(Plane.XZ, mode=Mode.PRIVATE) as cut_extrude_41_sk1:
        with Locations(Location((9, -41.672593916, 0), (0, 0, 270))):
            Circle(SKETCH_57_R)
    cut_extrude_41_tool1 = split(extrude(cut_extrude_41_sk1.sketch, amount=-CUT_EXTRUDE_41_REACH, mode=Mode.PRIVATE), bisect_by=cut_extrude_41_end, keep=Keep.BOTH, mode=Mode.PRIVATE)
    # 草图57 → 切除-拉伸41 (cut, up to the picked face)
    with BuildSketch(Plane.XZ, mode=Mode.PRIVATE) as cut_extrude_41_sk2:
        with Locations(Location((9, 41.672593916, 0), (0, 0, 270))):
            Circle(SKETCH_57_R)
    cut_extrude_41_tool2 = split(extrude(cut_extrude_41_sk2.sketch, amount=-CUT_EXTRUDE_41_REACH, mode=Mode.PRIVATE), bisect_by=cut_extrude_41_end, keep=Keep.BOTH, mode=Mode.PRIVATE)
    add(cut_extrude_41_tool1.solids().sort_by(Axis((9, 0, -41.672594), (0, 1, 0)))[0], mode=Mode.SUBTRACT)
    add(cut_extrude_41_tool2.solids().sort_by(Axis((9, 0, 41.672594), (0, 1, 0)))[0], mode=Mode.SUBTRACT)

    # 草图58 → 凸台-拉伸19 (add)
    with BuildSketch(Plane(origin=(0, 0, -49.672593916), x_dir=(-1, 0, 0), z_dir=(0, 0, -1))):
        with Locations((0, 25.3)):
            Rectangle(SKETCH_58_W, SKETCH_58_H)
        with Locations((0, 1.3)):
            Rectangle(SKETCH_58_W, SKETCH_58_H)
    extrude(amount=EXTRUDE_19_DEPTH)

    # 草图59 → 切除-拉伸42 (cut)
    with BuildSketch(Plane(origin=(0, 0, -30), x_dir=(-1, 0, 0), z_dir=(0, 0, -1))):
        with Locations((84.3, 12)):
            Rectangle(SKETCH_59_W, SKETCH_59_H)
    extrude(amount=-CUT_EXTRUDE_42_DEPTH, mode=Mode.SUBTRACT)

    # 草图60 → 切除-拉伸43 (cut)
    with BuildSketch(Plane(origin=(0, 26.6, 0), x_dir=(1, 0, 0), z_dir=(0, 1, 0))):
        with Locations((-29.7, 0)):
            Rectangle(SKETCH_60_W, SKETCH_60_H)
    extrude(amount=-CUT_EXTRUDE_43_DEPTH, mode=Mode.SUBTRACT)

    # 草图61 → 切除-拉伸44 (cut, two sides: drawn at the far end of the back side and taken through both)
    with BuildSketch(Plane(origin=(-52, 0, 0), x_dir=(0, 0, -1), z_dir=(1, 0, 0)).offset(-CUT_EXTRUDE_44_DEPTH_BACK)):
        with Locations((0, 13.3)):
            Rectangle(SKETCH_61_W, SKETCH_61_H)
    extrude(amount=CUT_EXTRUDE_44_DEPTH + CUT_EXTRUDE_44_DEPTH_BACK, mode=Mode.SUBTRACT)

    # 草图62 → 凸台-拉伸20 (add)
    with BuildSketch(Plane.ZY.offset(-4.937786469)):
        with Locations((-25, 1.3)):
            Rectangle(SKETCH_62_W, SKETCH_62_H)
    extrude(amount=EXTRUDE_20_DEPTH)

    # 草图63 → 凸台-拉伸21 (add)
    with BuildSketch(Plane.XY.offset(-15)):
        with Locations((-15, 1.3)):
            Rectangle(SKETCH_63_W, SKETCH_63_H)
    extrude(amount=EXTRUDE_21_DEPTH)

    # 草图64 → 切除-拉伸45 (cut)
    with BuildSketch(Plane.XZ):
        with Locations(Location((-48, 21.5, 0), (0, 0, 270))):
            Circle(SKETCH_64_R)
        with Locations(Location((-48, -21.5, 0), (0, 0, 270))):
            Circle(SKETCH_64_R)
        with Locations(Location((1, 21.5, 0), (0, 0, 270))):
            Circle(SKETCH_64_R)
        with Locations(Location((1, -21.5, 0), (0, 0, 270))):
            Circle(SKETCH_64_R)
    extrude(amount=-CUT_EXTRUDE_45_DEPTH, mode=Mode.SUBTRACT)

    # 草图65 → 凸台-拉伸23 (add)
    with BuildSketch(Plane.XZ):
        with Locations((-39.5, 21.5)):
            Circle(SKETCH_65_R)
        with Locations((-39.5, -21.5)):
            Circle(SKETCH_65_R)
        with Locations((9.5, -21.5)):
            Circle(SKETCH_65_R)
        with Locations((9.5, 21.5)):
            Circle(SKETCH_65_R)
    extrude(amount=-EXTRUDE_23_DEPTH)


solid = cut_extrude_16_piece_1_1.part
